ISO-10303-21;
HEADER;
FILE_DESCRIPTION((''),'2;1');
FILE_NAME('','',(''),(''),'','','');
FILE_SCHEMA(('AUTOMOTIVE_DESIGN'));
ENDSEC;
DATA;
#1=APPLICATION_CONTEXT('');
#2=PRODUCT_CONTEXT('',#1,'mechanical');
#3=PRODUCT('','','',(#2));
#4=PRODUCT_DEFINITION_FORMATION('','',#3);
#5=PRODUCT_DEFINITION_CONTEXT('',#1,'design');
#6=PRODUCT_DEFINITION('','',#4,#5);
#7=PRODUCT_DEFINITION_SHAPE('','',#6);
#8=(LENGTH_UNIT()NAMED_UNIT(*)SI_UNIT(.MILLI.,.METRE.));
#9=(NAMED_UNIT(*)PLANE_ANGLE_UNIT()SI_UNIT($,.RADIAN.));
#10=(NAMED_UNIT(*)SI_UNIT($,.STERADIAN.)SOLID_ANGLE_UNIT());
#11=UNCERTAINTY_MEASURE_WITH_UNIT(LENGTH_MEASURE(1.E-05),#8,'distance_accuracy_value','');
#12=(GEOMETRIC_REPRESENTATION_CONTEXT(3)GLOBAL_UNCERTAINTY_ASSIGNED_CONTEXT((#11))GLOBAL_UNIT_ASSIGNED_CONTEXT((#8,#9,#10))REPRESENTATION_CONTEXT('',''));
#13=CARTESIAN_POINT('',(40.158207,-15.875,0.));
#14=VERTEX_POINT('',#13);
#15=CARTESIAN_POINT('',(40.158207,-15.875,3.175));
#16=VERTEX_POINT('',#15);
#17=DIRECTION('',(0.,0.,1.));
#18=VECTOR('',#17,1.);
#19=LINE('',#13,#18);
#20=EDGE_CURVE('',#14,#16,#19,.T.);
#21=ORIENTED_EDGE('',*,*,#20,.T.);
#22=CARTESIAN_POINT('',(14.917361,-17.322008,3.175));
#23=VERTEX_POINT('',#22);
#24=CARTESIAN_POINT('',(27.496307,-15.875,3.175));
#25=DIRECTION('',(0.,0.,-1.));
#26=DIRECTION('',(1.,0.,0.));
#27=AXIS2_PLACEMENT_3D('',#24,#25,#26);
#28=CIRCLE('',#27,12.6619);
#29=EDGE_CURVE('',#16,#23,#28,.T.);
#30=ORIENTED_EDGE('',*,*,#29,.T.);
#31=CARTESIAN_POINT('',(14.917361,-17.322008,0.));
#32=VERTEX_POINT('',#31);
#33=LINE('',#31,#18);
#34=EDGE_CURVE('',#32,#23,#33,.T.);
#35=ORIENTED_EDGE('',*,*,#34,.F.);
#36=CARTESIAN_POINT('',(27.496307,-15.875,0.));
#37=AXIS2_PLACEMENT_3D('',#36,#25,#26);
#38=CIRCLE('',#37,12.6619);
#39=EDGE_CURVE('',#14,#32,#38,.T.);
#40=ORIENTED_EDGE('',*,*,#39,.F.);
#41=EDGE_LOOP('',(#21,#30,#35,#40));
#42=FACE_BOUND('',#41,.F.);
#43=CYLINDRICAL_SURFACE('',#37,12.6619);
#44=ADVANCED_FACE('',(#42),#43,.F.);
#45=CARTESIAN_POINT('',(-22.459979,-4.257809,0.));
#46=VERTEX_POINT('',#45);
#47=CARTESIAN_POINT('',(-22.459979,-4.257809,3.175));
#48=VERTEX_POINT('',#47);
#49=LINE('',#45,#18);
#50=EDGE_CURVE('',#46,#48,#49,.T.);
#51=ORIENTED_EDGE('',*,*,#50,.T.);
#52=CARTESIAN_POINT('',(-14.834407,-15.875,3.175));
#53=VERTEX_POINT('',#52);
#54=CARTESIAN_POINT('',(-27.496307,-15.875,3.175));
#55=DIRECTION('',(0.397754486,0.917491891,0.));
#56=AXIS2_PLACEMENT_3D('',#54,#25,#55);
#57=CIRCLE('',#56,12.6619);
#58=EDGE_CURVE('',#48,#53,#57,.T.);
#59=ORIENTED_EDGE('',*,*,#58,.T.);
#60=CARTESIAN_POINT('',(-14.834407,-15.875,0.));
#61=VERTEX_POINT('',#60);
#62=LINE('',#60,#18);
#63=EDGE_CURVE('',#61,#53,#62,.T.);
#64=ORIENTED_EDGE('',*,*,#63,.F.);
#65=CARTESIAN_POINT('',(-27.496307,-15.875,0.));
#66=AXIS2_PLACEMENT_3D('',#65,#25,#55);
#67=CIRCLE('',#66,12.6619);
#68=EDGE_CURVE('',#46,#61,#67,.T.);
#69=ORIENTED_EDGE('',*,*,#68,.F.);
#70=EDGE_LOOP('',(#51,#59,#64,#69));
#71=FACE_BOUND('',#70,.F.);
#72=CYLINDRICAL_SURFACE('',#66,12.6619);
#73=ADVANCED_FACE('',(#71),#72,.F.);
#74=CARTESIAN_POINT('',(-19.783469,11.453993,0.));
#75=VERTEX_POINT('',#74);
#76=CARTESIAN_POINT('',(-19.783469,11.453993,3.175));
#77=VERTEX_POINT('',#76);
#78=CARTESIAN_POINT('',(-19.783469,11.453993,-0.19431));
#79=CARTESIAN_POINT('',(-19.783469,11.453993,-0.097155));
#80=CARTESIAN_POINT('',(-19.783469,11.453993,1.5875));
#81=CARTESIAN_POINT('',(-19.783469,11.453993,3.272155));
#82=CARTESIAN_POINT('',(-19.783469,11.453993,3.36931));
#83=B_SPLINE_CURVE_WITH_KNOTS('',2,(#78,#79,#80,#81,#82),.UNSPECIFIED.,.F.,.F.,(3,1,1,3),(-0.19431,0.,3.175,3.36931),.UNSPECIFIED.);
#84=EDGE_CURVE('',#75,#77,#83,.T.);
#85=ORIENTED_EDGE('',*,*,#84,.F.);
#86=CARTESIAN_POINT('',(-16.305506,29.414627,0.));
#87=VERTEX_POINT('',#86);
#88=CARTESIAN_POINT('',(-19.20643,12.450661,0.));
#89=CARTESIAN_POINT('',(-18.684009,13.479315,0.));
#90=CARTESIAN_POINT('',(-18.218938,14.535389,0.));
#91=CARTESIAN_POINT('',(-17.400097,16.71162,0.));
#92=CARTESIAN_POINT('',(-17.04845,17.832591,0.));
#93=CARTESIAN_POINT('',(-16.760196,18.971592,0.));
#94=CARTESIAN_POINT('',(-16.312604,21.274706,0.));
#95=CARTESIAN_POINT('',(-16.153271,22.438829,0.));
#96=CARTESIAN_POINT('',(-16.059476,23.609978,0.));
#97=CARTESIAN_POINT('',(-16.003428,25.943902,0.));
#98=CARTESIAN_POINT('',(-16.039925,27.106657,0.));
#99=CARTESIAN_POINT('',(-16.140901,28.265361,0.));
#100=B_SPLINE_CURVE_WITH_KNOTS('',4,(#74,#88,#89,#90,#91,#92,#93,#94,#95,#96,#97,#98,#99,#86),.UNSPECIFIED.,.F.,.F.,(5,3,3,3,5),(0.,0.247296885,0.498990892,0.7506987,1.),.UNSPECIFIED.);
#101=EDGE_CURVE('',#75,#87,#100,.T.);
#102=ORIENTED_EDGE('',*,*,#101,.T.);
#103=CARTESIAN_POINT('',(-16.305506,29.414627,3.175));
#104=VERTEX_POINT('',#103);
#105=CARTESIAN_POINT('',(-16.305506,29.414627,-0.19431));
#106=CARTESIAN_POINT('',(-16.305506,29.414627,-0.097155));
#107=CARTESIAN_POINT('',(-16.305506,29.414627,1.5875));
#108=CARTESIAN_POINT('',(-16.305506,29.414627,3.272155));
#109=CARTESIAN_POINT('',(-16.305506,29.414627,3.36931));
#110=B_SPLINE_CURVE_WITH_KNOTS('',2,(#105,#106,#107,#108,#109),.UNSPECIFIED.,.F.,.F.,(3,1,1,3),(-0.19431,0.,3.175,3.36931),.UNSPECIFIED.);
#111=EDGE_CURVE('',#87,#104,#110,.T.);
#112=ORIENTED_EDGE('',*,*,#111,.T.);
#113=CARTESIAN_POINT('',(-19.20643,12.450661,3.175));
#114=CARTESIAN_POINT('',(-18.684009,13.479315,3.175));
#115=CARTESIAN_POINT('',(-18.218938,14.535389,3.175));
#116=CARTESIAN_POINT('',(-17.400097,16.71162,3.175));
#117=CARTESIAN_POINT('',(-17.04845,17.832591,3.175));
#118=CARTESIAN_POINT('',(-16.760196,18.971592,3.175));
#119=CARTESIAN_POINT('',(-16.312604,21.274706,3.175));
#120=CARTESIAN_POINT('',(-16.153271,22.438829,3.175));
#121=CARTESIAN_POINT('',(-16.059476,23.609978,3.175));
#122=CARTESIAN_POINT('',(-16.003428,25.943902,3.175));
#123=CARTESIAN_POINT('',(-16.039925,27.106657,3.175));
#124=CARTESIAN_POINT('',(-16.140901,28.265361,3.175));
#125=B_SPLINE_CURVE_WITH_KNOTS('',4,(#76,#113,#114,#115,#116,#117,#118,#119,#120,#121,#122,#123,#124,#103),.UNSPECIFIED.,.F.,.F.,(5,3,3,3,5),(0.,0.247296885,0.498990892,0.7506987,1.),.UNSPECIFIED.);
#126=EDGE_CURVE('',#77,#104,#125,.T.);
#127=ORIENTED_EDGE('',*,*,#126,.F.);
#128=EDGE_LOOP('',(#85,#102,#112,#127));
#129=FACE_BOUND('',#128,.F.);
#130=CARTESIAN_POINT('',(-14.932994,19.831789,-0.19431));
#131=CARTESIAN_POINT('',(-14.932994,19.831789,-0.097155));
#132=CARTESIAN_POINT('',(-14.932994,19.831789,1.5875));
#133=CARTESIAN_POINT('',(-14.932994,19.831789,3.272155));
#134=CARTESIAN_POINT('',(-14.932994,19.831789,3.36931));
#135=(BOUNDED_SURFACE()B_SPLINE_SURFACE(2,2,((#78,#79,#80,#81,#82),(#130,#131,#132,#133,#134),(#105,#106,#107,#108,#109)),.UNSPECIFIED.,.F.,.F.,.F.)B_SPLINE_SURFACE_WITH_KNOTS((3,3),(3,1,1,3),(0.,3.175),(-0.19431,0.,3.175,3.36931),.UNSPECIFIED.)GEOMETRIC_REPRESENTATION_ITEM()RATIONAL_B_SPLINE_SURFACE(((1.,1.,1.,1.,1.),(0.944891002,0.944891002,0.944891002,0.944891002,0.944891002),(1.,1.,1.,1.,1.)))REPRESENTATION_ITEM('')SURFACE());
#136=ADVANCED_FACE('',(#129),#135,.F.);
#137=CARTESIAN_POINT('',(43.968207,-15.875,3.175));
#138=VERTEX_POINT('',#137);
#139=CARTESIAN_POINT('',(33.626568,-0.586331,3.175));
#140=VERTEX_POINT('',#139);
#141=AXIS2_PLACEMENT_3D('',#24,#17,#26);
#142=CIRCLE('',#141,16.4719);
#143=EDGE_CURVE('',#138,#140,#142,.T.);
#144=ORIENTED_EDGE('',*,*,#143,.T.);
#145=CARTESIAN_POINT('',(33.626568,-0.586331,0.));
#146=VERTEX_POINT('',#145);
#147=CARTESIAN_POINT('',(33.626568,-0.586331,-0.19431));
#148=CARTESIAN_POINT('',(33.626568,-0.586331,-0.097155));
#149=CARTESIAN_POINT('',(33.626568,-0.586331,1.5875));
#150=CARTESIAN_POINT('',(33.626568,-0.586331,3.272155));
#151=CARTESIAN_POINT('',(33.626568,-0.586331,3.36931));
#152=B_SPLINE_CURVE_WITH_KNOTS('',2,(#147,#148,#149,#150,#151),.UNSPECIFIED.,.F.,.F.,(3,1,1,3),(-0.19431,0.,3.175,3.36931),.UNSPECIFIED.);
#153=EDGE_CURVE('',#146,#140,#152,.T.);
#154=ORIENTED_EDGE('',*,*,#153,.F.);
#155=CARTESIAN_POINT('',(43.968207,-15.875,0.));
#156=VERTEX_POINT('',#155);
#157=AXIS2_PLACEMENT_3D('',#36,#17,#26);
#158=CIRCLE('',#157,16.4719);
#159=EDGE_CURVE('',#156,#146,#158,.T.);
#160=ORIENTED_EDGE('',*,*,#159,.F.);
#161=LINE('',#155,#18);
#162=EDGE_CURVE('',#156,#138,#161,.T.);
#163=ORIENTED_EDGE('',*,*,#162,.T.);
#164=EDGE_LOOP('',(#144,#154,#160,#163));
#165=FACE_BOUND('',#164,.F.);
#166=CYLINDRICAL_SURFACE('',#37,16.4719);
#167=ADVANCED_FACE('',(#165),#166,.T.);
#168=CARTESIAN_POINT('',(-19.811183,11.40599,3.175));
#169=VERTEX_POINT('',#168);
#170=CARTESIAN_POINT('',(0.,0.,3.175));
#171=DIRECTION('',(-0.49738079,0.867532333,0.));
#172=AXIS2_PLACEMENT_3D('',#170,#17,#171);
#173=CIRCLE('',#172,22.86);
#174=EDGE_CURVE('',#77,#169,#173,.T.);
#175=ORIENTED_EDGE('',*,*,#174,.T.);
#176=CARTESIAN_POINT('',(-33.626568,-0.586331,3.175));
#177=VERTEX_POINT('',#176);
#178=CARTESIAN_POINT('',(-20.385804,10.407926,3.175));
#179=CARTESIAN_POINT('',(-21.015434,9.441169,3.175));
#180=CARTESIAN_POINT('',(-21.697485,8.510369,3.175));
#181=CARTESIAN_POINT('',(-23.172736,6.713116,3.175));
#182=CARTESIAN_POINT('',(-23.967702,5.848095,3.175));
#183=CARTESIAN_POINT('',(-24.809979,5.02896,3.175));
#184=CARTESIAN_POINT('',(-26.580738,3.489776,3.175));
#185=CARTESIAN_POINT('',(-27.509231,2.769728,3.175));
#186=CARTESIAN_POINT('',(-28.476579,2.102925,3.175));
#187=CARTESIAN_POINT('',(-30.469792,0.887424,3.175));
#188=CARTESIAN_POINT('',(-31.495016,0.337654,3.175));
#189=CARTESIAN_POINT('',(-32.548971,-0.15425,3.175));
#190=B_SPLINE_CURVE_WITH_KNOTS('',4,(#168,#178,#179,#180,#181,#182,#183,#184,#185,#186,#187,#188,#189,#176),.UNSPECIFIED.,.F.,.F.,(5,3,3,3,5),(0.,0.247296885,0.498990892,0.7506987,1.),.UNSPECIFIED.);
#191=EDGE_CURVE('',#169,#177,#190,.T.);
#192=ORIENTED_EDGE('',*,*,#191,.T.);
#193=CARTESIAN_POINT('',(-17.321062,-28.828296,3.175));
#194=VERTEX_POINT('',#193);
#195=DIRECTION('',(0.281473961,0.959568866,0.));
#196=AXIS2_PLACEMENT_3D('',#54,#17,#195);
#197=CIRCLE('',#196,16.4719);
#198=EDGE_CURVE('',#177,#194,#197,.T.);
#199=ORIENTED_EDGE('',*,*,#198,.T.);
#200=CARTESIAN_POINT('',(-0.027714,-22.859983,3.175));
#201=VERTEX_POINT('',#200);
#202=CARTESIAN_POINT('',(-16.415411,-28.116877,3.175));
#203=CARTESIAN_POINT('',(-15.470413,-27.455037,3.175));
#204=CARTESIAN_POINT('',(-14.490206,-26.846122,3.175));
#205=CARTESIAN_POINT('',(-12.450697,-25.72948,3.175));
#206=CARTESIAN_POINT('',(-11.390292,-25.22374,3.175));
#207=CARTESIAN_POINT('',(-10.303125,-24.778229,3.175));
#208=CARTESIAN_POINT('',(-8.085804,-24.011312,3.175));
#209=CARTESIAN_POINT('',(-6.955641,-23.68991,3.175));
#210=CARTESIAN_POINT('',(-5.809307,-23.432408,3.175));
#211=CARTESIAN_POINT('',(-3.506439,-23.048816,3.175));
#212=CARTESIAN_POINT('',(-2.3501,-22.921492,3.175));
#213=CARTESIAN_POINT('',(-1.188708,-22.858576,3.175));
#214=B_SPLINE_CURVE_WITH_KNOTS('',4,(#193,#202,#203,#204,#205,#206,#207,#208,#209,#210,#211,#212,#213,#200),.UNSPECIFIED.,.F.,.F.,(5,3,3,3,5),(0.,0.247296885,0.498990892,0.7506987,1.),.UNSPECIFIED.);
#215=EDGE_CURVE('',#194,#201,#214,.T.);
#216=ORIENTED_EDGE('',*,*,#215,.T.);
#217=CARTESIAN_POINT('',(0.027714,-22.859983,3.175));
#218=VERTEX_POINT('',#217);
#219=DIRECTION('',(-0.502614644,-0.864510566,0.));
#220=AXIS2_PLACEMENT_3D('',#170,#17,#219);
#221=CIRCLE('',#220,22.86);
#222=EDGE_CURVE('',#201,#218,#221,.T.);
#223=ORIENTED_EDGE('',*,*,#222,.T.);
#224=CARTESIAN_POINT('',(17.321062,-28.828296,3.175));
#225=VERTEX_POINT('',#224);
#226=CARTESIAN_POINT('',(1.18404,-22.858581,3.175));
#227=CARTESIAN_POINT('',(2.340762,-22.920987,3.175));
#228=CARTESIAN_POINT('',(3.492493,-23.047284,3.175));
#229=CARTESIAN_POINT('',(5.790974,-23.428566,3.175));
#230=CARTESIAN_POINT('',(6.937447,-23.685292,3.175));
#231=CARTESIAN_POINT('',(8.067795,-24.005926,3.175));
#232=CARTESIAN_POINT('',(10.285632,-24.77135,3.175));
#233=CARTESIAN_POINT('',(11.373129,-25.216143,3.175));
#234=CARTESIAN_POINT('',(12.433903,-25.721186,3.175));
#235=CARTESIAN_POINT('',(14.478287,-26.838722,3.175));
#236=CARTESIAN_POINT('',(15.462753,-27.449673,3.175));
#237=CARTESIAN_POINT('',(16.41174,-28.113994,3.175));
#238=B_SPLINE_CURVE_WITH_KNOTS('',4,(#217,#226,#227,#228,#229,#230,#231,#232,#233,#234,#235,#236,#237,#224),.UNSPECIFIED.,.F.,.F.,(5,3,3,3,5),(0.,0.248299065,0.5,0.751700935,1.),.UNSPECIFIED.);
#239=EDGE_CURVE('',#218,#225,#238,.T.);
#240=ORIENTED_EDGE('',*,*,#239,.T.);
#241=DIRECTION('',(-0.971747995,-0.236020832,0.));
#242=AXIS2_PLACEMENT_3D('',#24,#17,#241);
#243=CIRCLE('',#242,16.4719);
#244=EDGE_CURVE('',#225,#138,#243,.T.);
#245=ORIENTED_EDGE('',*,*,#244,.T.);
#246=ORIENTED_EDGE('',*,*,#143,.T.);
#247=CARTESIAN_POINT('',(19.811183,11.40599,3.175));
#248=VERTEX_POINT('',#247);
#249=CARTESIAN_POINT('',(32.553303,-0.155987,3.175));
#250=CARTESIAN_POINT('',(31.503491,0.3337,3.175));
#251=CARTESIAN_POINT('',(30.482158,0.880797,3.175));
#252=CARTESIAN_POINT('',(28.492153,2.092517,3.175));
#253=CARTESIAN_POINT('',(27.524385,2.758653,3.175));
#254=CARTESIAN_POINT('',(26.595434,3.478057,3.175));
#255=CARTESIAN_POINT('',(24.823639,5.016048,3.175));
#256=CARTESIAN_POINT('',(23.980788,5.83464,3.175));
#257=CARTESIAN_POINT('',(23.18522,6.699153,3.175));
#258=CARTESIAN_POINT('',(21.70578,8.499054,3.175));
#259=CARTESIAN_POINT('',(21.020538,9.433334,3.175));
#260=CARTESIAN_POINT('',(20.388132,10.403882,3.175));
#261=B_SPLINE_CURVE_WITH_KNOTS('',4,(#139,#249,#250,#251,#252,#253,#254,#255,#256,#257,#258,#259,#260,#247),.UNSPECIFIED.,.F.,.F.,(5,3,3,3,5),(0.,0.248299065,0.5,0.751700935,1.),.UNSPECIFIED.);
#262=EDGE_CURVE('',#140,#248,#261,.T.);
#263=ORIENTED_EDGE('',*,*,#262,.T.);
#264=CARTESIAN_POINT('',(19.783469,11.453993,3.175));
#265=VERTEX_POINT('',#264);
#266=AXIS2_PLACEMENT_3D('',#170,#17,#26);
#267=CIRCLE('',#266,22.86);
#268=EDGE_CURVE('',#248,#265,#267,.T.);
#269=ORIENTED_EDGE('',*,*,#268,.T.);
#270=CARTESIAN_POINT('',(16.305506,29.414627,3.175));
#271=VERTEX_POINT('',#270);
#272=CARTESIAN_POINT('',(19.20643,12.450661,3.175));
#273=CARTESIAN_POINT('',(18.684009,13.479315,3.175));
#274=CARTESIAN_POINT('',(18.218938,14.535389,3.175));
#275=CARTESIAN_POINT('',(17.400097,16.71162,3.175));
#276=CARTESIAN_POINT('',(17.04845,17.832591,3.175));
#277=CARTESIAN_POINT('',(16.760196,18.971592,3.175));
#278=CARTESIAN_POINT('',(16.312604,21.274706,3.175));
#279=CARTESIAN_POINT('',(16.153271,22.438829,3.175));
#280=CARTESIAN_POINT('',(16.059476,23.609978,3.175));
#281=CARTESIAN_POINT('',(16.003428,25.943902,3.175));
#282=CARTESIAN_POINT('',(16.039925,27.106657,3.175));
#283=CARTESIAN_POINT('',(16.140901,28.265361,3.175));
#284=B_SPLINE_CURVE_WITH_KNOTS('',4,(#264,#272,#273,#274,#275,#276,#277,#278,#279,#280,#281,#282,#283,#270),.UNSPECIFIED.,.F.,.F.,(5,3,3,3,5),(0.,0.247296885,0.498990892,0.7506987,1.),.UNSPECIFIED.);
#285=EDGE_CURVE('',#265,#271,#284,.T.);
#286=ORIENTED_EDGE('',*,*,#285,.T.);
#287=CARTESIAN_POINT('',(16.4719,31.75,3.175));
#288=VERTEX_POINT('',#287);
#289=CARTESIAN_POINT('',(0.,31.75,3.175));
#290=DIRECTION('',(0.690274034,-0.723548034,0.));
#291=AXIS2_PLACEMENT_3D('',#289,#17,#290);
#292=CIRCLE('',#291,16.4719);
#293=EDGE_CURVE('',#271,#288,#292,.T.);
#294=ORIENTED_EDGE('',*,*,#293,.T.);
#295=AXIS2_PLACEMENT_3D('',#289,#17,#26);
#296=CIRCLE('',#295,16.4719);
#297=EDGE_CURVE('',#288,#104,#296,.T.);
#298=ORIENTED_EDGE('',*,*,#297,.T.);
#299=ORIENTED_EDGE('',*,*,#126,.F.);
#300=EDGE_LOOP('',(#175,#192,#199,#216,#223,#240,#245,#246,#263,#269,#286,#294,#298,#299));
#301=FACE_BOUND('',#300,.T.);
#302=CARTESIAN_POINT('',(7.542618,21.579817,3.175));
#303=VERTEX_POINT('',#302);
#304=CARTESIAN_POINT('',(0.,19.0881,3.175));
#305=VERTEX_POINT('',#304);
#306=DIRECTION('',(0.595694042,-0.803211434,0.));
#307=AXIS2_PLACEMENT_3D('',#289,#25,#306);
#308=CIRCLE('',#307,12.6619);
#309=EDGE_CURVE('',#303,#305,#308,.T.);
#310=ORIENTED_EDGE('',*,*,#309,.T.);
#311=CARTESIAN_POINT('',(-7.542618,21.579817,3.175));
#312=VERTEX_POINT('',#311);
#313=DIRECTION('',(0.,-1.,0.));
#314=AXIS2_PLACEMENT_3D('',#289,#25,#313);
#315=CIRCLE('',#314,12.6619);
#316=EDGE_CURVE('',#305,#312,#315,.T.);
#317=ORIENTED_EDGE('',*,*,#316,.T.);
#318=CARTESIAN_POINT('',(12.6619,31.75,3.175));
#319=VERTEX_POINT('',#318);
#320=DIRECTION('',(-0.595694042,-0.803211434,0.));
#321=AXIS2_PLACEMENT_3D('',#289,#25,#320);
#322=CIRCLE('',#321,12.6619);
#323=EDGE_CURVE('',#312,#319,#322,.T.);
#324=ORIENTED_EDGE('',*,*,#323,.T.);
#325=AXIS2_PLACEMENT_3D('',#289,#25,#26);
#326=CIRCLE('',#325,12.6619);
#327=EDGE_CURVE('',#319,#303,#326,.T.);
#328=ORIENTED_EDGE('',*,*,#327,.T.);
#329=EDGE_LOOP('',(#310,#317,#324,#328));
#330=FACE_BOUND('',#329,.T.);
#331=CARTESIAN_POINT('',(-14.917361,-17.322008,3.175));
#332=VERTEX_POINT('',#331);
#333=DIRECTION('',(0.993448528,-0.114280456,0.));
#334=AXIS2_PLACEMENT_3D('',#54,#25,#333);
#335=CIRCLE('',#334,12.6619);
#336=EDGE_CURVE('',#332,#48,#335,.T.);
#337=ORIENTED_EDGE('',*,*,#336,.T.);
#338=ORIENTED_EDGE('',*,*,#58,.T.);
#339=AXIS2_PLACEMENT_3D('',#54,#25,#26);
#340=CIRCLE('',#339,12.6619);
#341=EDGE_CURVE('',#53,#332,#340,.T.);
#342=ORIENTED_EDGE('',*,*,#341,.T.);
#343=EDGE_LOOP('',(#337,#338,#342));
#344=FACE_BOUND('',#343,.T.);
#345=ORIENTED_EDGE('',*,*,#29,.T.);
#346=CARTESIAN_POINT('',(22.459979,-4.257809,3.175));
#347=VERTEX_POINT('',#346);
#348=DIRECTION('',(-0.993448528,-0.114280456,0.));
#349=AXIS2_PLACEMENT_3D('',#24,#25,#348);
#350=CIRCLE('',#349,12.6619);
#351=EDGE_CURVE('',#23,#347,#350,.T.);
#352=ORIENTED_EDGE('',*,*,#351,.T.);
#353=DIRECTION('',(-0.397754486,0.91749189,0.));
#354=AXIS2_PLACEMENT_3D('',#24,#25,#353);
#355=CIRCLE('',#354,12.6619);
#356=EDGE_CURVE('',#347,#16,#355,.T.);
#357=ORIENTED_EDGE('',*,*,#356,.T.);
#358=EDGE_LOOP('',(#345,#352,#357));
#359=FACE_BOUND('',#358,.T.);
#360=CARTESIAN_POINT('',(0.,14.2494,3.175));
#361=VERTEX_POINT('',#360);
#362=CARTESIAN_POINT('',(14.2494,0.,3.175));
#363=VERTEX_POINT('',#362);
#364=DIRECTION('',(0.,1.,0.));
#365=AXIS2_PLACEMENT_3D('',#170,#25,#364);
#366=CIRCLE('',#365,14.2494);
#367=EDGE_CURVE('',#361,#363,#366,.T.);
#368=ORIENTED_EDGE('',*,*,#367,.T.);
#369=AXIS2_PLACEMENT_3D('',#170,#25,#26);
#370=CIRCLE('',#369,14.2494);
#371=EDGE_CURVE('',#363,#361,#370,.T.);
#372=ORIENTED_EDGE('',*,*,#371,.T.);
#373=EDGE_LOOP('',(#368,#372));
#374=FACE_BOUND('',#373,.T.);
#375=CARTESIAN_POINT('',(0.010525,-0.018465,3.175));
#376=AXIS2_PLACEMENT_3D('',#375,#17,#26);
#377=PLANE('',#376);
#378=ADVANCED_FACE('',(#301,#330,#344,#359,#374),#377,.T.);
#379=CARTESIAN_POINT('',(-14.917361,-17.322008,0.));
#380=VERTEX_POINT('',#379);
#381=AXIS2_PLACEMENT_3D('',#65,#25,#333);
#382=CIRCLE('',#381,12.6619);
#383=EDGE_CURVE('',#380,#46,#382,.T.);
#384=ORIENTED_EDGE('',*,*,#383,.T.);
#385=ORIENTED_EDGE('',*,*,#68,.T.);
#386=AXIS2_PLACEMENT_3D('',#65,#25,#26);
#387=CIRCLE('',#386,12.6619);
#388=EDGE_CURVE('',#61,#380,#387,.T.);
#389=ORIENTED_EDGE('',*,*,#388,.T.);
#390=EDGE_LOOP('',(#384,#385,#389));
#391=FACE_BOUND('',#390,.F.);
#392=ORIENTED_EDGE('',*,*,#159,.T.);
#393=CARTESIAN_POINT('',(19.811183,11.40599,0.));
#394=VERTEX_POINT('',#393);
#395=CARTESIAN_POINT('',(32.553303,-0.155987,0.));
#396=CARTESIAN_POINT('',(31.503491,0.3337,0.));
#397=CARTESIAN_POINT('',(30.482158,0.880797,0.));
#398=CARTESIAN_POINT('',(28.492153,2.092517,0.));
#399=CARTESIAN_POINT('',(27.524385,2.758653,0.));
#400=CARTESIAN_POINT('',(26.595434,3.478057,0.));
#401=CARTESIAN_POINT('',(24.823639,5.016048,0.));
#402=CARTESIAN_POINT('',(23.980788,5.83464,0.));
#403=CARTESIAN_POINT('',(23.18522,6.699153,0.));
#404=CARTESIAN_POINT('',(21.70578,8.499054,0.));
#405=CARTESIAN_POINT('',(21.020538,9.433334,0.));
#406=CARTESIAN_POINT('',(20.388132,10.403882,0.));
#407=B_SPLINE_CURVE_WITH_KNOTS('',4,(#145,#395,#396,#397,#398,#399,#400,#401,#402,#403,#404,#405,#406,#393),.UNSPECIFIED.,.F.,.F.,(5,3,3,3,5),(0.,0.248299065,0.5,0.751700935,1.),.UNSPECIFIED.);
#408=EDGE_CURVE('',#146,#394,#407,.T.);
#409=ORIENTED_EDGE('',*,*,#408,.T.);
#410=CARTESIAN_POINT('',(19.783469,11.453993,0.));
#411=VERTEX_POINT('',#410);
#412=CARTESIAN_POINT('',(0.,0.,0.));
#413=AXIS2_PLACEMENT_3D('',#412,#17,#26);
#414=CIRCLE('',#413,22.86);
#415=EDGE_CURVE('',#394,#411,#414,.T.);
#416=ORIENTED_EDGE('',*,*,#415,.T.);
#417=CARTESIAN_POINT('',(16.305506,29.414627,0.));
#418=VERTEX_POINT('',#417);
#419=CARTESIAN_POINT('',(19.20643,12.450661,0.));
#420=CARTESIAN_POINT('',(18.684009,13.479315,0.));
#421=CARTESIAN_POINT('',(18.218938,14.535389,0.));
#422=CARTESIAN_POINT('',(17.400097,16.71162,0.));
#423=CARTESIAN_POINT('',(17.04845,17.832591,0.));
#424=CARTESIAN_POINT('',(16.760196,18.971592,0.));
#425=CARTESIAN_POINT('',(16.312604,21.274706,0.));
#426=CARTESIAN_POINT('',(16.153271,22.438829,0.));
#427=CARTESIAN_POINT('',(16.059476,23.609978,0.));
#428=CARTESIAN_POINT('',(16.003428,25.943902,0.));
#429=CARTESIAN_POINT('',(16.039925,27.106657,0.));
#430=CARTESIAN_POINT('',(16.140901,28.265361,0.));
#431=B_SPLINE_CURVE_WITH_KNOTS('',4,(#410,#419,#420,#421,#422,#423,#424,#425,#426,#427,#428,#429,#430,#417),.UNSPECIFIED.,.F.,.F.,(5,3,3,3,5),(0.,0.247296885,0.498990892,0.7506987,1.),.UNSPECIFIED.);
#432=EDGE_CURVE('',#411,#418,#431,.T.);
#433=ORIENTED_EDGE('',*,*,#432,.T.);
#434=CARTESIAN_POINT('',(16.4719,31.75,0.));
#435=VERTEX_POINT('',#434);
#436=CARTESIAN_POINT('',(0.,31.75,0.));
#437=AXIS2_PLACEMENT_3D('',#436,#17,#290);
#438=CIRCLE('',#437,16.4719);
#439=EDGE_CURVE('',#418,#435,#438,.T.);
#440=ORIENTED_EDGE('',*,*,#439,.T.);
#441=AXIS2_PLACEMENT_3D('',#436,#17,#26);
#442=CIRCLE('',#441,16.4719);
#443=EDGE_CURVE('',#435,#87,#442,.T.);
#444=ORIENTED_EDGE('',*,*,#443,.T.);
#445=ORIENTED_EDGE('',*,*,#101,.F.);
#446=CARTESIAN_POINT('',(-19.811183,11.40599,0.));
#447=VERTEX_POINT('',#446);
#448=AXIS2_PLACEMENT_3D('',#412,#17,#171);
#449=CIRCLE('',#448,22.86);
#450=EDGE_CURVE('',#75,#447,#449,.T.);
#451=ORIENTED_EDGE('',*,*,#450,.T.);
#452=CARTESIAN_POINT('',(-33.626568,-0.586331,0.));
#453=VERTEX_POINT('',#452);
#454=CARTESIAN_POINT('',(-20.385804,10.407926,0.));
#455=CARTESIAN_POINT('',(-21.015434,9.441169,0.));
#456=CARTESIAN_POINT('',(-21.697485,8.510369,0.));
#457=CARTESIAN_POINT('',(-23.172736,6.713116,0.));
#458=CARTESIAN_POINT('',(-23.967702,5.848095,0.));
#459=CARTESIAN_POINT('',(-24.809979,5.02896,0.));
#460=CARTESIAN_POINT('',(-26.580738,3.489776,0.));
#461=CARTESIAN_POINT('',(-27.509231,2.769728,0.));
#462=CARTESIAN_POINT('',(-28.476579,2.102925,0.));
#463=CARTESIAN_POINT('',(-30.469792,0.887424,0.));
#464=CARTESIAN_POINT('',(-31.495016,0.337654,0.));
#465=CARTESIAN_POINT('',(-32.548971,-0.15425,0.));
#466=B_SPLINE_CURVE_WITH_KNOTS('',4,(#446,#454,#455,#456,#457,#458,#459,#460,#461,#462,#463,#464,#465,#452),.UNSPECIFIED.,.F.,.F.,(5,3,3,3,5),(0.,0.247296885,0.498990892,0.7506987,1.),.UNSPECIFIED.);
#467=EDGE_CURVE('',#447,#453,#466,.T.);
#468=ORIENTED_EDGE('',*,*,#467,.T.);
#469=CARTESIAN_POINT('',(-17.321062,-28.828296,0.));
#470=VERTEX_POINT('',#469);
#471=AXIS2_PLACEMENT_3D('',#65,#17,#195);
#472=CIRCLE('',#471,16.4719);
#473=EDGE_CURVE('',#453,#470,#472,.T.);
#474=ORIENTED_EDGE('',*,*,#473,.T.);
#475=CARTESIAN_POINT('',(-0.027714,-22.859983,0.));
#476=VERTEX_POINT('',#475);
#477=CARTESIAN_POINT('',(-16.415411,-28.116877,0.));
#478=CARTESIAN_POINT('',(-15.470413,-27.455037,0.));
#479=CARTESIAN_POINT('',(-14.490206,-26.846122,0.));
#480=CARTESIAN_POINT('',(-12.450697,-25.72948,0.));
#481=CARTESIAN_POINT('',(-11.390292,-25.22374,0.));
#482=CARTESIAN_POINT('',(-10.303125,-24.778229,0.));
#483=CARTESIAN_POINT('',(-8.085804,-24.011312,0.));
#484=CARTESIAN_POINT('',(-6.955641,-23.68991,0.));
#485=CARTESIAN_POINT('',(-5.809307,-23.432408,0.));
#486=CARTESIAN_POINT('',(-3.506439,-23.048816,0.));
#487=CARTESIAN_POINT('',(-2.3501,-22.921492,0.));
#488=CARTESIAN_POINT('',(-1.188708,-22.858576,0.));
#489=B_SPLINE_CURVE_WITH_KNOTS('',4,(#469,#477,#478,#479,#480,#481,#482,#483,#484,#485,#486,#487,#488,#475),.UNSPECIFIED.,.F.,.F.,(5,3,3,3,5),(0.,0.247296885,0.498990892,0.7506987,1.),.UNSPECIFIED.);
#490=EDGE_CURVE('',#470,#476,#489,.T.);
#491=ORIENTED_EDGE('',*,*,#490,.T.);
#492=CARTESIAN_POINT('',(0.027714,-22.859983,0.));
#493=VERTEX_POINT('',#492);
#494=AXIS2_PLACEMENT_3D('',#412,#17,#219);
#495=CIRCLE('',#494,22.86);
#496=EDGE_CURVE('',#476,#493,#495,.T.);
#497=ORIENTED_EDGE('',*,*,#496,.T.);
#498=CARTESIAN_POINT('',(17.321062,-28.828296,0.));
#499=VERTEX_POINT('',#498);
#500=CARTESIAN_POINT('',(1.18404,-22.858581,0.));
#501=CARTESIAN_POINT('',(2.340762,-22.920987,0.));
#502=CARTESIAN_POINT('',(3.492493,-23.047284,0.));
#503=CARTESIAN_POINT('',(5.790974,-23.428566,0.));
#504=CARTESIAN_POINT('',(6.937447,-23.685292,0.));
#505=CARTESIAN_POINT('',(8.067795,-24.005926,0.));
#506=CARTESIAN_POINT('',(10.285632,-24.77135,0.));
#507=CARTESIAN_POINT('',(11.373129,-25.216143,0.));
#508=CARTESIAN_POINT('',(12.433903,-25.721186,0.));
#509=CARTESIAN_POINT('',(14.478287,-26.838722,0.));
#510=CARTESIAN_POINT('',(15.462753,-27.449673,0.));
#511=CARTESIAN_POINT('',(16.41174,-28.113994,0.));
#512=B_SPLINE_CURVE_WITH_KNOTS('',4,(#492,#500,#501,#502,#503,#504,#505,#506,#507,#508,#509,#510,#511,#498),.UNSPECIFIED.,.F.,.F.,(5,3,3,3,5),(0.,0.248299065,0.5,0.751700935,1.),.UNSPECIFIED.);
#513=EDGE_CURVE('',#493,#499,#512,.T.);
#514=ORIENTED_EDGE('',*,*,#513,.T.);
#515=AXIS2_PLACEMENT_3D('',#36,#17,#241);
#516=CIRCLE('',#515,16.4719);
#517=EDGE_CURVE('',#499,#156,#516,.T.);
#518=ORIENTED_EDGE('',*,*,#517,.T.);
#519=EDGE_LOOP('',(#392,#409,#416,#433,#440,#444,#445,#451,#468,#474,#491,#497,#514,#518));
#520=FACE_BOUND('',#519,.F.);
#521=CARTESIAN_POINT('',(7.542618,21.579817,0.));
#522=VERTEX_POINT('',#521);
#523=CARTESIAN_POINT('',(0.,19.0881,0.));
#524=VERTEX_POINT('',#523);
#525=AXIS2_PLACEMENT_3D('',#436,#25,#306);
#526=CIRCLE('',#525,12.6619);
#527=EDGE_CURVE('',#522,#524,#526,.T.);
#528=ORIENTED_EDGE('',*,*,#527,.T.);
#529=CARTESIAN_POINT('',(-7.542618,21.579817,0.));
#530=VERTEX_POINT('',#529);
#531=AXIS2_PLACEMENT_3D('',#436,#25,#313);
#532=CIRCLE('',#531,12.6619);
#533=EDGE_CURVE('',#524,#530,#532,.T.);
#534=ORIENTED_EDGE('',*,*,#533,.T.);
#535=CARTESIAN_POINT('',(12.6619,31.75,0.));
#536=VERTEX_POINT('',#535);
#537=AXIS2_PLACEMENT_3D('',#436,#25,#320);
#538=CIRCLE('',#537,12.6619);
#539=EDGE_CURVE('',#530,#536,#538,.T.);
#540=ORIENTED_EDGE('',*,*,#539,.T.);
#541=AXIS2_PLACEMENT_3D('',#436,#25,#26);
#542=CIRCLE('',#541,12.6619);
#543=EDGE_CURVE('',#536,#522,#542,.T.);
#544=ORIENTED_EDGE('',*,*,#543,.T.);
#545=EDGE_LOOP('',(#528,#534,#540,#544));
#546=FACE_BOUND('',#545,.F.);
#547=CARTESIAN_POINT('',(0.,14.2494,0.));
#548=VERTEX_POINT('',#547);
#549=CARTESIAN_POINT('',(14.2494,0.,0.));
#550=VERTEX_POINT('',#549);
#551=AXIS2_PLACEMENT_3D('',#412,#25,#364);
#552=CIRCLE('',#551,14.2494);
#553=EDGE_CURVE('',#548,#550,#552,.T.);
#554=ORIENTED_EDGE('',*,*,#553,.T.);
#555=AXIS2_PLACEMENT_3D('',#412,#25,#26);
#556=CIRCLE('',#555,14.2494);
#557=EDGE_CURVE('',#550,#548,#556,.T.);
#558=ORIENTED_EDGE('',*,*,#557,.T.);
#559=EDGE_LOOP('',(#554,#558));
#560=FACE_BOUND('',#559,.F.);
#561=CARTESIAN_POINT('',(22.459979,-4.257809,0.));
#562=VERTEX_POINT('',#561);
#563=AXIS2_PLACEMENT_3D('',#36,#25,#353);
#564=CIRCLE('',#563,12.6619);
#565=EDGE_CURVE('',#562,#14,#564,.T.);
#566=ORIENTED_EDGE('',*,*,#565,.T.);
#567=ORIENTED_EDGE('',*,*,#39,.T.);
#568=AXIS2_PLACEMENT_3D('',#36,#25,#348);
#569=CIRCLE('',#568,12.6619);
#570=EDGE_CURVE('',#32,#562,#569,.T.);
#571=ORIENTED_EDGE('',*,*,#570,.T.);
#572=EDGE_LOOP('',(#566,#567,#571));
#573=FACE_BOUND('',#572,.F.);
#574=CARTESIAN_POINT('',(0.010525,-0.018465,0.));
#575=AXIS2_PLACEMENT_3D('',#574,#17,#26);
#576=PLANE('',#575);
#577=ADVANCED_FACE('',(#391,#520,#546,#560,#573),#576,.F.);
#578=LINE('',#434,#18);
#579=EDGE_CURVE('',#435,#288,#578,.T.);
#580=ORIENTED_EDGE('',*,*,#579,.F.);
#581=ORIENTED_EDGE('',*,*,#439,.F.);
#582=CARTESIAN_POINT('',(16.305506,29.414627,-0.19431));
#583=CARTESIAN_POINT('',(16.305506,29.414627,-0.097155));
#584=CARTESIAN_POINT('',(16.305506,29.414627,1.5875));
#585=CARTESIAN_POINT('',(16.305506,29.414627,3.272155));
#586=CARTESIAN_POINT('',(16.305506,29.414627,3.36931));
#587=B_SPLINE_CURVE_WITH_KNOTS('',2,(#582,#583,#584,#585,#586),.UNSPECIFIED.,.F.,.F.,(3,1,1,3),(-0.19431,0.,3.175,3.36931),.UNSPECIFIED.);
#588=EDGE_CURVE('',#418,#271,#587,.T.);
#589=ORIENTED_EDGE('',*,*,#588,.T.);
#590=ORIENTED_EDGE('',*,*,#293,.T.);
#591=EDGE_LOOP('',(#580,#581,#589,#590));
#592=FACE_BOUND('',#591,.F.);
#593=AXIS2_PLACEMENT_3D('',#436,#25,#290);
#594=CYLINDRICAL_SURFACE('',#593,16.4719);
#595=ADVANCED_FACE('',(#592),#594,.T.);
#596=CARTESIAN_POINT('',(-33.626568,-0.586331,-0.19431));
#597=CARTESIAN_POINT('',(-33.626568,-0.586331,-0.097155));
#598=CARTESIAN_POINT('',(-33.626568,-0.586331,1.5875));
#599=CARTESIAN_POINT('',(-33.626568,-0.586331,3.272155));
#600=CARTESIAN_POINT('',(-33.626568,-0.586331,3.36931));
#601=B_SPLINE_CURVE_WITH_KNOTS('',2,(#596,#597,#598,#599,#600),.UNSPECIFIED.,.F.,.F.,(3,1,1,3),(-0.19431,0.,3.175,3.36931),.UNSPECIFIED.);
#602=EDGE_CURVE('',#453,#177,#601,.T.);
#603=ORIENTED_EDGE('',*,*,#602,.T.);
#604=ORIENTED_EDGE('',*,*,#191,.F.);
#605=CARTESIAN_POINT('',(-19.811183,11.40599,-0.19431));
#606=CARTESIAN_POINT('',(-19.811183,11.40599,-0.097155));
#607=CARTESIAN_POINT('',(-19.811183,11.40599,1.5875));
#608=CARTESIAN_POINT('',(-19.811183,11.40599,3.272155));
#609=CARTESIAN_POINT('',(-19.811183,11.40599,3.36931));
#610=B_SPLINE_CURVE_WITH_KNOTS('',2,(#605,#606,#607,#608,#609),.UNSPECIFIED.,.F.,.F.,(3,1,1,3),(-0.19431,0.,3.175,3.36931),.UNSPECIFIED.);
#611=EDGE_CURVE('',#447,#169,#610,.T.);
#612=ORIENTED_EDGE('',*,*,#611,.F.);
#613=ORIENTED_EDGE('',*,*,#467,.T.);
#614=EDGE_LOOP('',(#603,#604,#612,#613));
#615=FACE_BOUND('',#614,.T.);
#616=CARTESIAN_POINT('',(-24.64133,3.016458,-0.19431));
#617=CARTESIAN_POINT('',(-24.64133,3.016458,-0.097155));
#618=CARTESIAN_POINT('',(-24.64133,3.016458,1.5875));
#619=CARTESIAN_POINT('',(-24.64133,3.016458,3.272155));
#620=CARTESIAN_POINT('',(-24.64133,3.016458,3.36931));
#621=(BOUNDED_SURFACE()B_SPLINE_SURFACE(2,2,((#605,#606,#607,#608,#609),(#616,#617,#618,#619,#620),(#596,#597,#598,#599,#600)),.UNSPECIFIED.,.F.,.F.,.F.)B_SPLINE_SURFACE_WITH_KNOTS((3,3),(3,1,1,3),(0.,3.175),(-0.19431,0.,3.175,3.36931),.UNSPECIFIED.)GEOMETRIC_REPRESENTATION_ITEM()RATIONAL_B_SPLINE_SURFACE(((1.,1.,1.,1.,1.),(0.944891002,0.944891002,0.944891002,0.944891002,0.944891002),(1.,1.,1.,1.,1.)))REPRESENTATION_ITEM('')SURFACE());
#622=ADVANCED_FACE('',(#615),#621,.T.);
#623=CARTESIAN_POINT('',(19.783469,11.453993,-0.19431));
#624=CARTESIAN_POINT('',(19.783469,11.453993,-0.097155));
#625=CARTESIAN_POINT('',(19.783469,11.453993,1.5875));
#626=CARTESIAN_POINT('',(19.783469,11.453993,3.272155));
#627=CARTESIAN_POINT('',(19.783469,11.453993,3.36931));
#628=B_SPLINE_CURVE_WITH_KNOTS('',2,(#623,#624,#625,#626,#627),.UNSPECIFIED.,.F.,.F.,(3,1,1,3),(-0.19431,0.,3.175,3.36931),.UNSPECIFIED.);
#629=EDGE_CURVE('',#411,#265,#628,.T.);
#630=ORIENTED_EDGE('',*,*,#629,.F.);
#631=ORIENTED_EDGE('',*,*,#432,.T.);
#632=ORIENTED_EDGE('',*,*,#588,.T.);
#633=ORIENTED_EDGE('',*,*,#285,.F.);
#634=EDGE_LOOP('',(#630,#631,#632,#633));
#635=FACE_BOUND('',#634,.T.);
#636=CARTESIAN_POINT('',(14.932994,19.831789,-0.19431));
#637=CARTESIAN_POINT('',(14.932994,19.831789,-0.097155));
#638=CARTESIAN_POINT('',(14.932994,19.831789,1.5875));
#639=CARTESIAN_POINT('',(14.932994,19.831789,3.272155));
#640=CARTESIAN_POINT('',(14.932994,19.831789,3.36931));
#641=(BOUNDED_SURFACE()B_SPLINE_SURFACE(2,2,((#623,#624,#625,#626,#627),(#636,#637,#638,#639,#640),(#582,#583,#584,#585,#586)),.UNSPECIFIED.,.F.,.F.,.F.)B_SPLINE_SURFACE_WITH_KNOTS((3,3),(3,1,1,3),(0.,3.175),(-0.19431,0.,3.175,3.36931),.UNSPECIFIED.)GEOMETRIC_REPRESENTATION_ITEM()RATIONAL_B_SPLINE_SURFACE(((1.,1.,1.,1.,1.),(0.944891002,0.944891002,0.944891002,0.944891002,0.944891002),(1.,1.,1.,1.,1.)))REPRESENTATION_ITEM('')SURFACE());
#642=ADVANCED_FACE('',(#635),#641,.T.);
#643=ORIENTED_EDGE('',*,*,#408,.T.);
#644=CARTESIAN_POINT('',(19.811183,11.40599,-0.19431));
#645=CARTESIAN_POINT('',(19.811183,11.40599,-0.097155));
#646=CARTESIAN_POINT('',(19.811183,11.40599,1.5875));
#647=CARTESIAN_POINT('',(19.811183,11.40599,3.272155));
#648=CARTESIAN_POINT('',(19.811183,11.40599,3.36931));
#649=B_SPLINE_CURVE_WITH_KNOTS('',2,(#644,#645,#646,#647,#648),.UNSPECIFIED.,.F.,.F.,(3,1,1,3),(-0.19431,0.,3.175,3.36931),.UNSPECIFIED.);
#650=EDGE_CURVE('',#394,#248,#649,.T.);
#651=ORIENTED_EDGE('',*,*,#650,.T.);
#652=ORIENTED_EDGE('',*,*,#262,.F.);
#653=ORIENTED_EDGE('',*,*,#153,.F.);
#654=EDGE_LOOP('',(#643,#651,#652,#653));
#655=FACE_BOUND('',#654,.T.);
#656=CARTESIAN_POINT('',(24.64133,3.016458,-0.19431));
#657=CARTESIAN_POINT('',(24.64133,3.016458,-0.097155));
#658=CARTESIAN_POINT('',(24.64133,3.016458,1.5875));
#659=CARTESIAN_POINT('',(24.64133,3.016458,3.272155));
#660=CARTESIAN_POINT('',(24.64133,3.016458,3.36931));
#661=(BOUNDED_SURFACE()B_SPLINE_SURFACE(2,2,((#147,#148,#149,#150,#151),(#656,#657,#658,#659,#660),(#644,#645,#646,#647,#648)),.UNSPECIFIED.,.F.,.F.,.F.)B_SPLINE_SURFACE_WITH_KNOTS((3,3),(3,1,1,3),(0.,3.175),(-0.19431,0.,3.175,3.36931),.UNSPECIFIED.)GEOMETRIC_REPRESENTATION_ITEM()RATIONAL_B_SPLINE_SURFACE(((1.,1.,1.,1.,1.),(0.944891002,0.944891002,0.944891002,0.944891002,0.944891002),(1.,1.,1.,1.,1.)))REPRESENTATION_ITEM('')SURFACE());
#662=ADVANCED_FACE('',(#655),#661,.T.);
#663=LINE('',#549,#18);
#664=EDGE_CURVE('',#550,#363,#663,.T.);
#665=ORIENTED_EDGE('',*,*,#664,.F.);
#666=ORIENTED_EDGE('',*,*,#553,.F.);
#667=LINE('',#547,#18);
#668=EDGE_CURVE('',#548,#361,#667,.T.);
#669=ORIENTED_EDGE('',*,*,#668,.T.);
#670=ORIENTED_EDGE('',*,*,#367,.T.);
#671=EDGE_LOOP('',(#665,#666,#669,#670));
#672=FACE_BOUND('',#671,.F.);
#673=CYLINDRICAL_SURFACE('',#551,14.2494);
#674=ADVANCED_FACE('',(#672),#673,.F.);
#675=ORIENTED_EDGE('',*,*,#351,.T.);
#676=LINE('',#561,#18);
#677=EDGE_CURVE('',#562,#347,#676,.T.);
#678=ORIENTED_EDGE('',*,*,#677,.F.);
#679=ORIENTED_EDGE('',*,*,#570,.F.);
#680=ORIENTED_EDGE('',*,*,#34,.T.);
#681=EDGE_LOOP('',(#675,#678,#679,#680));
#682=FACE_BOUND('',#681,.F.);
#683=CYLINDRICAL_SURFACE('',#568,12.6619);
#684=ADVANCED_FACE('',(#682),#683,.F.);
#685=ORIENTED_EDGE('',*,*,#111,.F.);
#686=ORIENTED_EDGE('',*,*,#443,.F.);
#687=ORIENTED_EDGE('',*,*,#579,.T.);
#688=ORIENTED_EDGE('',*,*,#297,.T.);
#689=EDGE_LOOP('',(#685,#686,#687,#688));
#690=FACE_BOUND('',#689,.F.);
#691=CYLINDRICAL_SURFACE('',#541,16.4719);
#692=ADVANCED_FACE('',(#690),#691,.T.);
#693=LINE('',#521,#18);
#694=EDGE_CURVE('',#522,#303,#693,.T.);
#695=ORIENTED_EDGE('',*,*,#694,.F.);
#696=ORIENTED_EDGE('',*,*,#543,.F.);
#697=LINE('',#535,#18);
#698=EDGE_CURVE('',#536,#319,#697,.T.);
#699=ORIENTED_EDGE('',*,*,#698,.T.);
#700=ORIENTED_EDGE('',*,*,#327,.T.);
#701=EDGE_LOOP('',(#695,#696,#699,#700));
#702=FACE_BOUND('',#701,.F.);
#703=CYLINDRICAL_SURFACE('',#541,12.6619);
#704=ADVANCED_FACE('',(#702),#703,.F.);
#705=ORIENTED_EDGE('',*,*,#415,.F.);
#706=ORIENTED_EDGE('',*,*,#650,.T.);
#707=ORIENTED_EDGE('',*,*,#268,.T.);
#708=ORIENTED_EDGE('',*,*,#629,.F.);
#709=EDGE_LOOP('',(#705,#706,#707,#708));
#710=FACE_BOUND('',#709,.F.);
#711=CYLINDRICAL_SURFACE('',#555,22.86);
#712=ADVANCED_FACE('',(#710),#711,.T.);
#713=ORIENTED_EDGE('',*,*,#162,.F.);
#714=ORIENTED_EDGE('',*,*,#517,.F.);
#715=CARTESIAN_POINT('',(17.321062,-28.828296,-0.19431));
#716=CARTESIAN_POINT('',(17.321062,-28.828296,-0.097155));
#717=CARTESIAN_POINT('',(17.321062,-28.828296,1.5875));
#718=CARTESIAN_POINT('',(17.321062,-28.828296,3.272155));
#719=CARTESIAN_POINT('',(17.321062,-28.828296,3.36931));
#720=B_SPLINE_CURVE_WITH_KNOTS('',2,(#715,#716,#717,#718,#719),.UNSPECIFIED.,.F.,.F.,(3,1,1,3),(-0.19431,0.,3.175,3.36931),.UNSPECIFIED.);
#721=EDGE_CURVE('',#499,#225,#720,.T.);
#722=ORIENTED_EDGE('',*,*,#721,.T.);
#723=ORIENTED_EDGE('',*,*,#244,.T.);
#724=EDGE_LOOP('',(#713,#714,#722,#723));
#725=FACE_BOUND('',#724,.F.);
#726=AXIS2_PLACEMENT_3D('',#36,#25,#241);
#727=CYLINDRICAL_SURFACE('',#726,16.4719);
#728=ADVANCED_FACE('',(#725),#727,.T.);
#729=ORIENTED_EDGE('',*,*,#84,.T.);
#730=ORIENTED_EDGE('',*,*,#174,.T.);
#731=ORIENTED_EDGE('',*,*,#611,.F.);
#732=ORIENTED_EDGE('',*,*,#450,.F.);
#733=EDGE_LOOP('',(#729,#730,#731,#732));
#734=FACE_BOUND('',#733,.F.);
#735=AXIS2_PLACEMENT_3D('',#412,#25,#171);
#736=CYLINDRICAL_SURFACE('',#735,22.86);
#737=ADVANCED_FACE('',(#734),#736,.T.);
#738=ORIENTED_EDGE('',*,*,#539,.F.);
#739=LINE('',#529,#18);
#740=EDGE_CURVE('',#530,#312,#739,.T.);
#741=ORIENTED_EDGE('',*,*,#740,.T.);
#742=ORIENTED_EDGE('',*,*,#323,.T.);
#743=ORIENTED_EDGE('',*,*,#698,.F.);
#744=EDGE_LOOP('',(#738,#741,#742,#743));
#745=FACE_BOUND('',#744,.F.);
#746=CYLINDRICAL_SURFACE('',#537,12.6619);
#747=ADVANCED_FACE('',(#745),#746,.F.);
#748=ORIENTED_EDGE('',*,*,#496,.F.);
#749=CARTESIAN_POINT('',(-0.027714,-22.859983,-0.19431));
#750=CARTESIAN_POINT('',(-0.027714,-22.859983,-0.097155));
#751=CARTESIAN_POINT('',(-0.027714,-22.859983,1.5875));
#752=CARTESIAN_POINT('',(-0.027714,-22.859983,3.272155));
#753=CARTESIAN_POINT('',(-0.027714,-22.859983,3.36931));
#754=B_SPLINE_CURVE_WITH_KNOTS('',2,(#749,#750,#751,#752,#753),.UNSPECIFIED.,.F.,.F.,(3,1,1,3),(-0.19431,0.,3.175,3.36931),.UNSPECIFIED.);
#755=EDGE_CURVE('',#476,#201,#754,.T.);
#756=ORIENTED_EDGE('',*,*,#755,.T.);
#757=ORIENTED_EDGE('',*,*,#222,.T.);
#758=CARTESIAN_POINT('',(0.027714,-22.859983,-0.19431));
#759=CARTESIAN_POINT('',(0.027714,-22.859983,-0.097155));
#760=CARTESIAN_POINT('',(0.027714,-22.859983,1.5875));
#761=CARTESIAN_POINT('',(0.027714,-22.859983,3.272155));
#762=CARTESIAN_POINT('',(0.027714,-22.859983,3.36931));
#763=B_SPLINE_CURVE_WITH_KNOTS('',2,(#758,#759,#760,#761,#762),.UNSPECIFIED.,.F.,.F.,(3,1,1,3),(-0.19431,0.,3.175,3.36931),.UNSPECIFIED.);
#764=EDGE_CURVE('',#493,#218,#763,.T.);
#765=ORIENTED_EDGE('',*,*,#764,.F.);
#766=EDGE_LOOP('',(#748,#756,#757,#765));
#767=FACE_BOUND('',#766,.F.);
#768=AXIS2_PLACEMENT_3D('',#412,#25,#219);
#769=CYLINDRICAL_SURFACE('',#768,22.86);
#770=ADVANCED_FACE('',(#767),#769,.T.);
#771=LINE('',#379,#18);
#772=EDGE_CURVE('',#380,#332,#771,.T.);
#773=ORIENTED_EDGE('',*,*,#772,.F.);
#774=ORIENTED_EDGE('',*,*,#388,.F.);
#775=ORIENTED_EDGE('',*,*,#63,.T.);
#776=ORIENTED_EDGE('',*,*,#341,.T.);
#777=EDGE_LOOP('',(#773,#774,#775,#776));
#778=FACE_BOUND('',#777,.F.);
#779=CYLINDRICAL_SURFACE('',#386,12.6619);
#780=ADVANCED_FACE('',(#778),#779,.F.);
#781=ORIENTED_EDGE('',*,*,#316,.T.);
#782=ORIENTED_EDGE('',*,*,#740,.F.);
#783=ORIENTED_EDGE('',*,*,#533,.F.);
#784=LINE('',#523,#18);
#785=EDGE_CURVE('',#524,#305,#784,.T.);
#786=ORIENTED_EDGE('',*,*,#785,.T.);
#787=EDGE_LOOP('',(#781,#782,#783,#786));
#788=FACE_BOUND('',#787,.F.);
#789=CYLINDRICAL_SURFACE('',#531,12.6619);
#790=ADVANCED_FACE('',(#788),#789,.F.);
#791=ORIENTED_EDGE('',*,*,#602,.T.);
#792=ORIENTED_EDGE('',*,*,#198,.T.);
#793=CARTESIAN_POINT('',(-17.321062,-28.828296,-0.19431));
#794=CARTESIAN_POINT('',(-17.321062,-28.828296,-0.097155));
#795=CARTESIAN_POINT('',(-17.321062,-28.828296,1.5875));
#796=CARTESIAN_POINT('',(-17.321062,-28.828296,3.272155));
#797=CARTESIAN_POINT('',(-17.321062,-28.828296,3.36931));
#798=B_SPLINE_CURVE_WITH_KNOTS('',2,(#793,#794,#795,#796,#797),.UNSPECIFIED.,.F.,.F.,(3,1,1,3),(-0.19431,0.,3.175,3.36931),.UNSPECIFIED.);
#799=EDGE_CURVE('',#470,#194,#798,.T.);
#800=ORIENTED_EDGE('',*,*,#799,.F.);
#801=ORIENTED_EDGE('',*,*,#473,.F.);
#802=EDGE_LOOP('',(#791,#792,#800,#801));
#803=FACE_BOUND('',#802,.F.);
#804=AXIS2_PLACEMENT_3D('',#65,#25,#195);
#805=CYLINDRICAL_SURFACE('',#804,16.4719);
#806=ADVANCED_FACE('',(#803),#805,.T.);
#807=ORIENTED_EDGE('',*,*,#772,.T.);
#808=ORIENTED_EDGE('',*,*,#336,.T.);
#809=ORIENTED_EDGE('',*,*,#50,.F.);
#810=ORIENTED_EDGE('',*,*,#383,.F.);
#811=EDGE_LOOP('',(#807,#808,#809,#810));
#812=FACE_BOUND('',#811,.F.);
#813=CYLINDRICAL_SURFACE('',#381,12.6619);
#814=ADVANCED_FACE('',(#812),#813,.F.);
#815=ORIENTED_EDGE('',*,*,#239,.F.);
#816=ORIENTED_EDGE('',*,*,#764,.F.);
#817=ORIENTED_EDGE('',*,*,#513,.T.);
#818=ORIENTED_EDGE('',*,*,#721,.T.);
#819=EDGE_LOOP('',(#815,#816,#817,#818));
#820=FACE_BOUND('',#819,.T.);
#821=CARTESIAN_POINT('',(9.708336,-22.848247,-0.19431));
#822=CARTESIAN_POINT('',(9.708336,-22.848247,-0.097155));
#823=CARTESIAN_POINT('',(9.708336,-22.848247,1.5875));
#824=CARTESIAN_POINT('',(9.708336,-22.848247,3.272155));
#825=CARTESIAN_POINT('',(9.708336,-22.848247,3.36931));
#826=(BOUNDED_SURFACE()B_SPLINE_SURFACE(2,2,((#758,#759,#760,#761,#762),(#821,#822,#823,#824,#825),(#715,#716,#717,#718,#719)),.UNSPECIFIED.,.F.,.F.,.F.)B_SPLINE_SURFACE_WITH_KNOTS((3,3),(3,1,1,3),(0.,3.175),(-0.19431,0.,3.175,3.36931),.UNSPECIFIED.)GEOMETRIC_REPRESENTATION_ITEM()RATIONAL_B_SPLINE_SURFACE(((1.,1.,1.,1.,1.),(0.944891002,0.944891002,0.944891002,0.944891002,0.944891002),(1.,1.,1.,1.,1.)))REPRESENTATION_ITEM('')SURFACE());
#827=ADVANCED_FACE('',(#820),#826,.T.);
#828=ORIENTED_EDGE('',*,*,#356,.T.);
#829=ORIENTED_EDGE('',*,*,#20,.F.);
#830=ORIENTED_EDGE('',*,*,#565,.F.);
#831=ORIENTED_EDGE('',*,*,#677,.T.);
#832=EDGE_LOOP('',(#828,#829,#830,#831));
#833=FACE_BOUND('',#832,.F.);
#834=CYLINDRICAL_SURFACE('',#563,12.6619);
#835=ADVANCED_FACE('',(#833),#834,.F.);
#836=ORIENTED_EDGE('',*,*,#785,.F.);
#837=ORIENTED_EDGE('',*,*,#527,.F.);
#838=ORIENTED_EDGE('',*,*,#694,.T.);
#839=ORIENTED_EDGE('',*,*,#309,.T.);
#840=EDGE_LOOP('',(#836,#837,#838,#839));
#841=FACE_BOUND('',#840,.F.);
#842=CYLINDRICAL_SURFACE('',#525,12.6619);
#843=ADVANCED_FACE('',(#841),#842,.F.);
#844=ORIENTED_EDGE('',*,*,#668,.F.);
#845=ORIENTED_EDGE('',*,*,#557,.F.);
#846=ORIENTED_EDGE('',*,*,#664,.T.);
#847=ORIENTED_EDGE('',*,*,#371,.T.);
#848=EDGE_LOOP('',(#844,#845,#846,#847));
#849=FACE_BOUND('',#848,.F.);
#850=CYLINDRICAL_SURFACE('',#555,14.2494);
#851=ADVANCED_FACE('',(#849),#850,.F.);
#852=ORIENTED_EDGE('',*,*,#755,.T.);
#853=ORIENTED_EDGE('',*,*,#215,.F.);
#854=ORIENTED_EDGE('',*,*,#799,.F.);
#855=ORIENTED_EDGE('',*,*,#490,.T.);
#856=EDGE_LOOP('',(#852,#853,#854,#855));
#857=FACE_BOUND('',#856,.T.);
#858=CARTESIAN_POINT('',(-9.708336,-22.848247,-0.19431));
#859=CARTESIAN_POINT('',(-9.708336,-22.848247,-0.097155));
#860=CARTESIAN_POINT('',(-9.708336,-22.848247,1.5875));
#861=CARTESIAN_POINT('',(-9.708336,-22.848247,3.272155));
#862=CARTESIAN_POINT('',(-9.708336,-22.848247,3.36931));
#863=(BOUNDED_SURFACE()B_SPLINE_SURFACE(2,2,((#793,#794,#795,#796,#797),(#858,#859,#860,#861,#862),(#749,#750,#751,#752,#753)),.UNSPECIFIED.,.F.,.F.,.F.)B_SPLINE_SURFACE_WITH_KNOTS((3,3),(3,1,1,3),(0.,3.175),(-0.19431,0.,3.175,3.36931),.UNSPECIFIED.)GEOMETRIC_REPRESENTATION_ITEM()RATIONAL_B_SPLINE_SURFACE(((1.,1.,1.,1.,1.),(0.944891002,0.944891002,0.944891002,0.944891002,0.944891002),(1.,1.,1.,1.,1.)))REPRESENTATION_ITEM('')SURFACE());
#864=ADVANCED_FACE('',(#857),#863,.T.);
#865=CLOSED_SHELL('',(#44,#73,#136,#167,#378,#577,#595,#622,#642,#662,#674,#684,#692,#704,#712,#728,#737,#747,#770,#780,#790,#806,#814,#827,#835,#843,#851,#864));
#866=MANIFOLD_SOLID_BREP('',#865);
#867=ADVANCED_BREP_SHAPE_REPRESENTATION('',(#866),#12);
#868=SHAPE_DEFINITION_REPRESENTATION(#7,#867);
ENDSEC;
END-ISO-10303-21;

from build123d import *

# Parameters (mm, degrees)
F1_DEPTH = 3.175
F2_R     = 27.94


with BuildPart() as f1:
    # F0 (on Top) → F1 (new body)
    with BuildSketch(Plane.XY):
        with BuildLine():
            ThreePointArc((11.3701248677, 19.83178914), (6.1240473604, 16.4588413278), (0, 15.2781))
            ThreePointArc((0, 15.2781), (-6.1240473604, 16.4588413278), (-11.3701248677, 19.83178914))
            ThreePointArc((-11.3701248677, 19.83178914), (-19.7973407305, 11.43), (-22.8598956316, -0.0690775904))
            ThreePointArc((-22.8598956316, -0.0690775904), (-14.3112015848, -6.0019814071), (-11.0244065702, -15.875))
            ThreePointArc((-11.0244065702, -15.875), (-11.1411614048, -17.8327324208), (-11.4897707639, -19.7627115496))
            ThreePointArc((-11.4897707639, -19.7627115496), (0, -22.86), (11.4897707639, -19.7627115496))
            ThreePointArc((11.4897707639, -19.7627115496), (13.2312227216, -7.63905), (22.8598956316, -0.0690775904))
            ThreePointArc((22.8598956316, -0.0690775904), (22.8599739079, -0.0345388346), (22.86, 0))
            ThreePointArc((22.86, 0), (19.7800487168, 11.4598984621), (11.3701248677, 19.83178914))
        make_face()
        with BuildLine():
            ThreePointArc((14.2494, 0), (-10.0758473678, -10.0758473678), (0, 14.2494))
            ThreePointArc((0, 14.2494), (10.0758473678, 10.0758473678), (14.2494, 0))
        make_face(mode=Mode.SUBTRACT)
        with BuildLine():
            ThreePointArc((-11.3701248677, 19.83178914), (-6.1240473604, 16.4588413278), (0, 15.2781))
            Line((0, 15.2781), (0, 19.0881))
            ThreePointArc((0, 19.0881), (-3.9717674438, 19.7271561192), (-7.5426183918, 21.57981714))
            ThreePointArc((-7.5426183918, 21.57981714), (-9.4966765172, 20.7940552834), (-11.3701248677, 19.83178914))
        make_face()
        with BuildLine():
            Line((0, 19.0881), (0, 15.2781))
            ThreePointArc((0, 15.2781), (6.1240473604, 16.4588413278), (11.3701248677, 19.83178914))
            ThreePointArc((11.3701248677, 19.83178914), (9.4966765172, 20.7940552834), (7.5426183918, 21.57981714))
            ThreePointArc((7.5426183918, 21.57981714), (3.9717674438, 19.7271561192), (0, 19.0881))
        make_face()
        with BuildLine():
            ThreePointArc((16.4719, 31.75), (-6.4821265724, 46.8928374061), (-11.3701248677, 19.83178914))
            ThreePointArc((-11.3701248677, 19.83178914), (-9.4966765172, 20.7940552834), (-7.5426183918, 21.57981714))
            ThreePointArc((-7.5426183918, 21.57981714), (-5.6929707445, 43.0598981301), (12.6619, 31.75))
            ThreePointArc((12.6619, 31.75), (11.3098981301, 26.0570292555), (7.5426183918, 21.57981714))
            ThreePointArc((7.5426183918, 21.57981714), (9.4966765172, 20.7940552834), (11.3701248677, 19.83178914))
            ThreePointArc((11.3701248677, 19.83178914), (15.1428374061, 25.2678734276), (16.4719, 31.75))
        make_face()
        with BuildLine():
            ThreePointArc((-22.4599790482, -4.2578094317), (-22.7565183817, -2.1726645263), (-22.8598956316, -0.0690775904))
            ThreePointArc((-22.8598956316, -0.0690775904), (-41.7613904188, -24.11095), (-11.4897707639, -19.7627115496))
            ThreePointArc((-11.4897707639, -19.7627115496), (-13.2598418645, -18.6213907571), (-14.9173606564, -17.3220077083))
            ThreePointArc((-14.9173606564, -17.3220077083), (-38.4618336303, -22.20595), (-22.4599790482, -4.2578094317))
        make_face()
        with BuildLine():
            ThreePointArc((-11.0244065702, -15.875), (-14.3112015848, -6.0019814071), (-22.8598956316, -0.0690775904))
            ThreePointArc((-22.8598956316, -0.0690775904), (-22.7565183817, -2.1726645263), (-22.4599790482, -4.2578094317))
            ThreePointArc((-22.4599790482, -4.2578094317), (-16.9111002174, -8.9268262774), (-14.8344065702, -15.875))
            ThreePointArc((-14.8344065702, -15.875), (-14.8551621031, -16.5996917773), (-14.9173606564, -17.3220077083))
            ThreePointArc((-14.9173606564, -17.3220077083), (-13.2598418645, -18.6213907571), (-11.4897707639, -19.7627115496))
            ThreePointArc((-11.4897707639, -19.7627115496), (-11.1411614048, -17.8327324208), (-11.0244065702, -15.875))
        make_face()
        with BuildLine():
            ThreePointArc((22.4599790482, -4.2578094317), (22.7565183817, -2.1726645263), (22.8598956316, -0.0690775904))
            ThreePointArc((22.8598956316, -0.0690775904), (13.2312227216, -7.63905), (11.4897707639, -19.7627115496))
            ThreePointArc((11.4897707639, -19.7627115496), (13.2598418645, -18.6213907571), (14.9173606564, -17.3220077083))
            ThreePointArc((14.9173606564, -17.3220077083), (16.53077951, -9.54405), (22.4599790482, -4.2578094317))
        make_face()
        with BuildLine():
            ThreePointArc((43.9682065702, -15.875), (37.369325163, -2.6898950147), (22.8598956316, -0.0690775904))
            ThreePointArc((22.8598956316, -0.0690775904), (22.7565183817, -2.1726645263), (22.4599790482, -4.2578094317))
            ThreePointArc((22.4599790482, -4.2578094317), (34.4444802928, -5.2897936472), (40.1582065702, -15.875))
            ThreePointArc((40.1582065702, -15.875), (28.2209983475, -28.5161444671), (14.9173606564, -17.3220077083))
            ThreePointArc((14.9173606564, -17.3220077083), (13.2598418645, -18.6213907571), (11.4897707639, -19.7627115496))
            ThreePointArc((11.4897707639, -19.7627115496), (29.454038991, -32.2301451653), (43.9682065702, -15.875))
        make_face()
    extrude(amount=F1_DEPTH)

    # F2
    f2_edges = [f1.edges().sort_by_distance(p)[0] for p in [
        (-11.370125, 19.831789, 1.5875),
        (-22.859896, -0.069078, 1.5875),
        (-11.489771, -19.762712, 1.5875),
        (22.859896, -0.069078, 1.5875),
        (11.489771, -19.762712, 1.5875),
        (11.370125, 19.831789, 1.5875),
    ]]
    fillet(f2_edges, radius=F2_R)


solid = f1.part
